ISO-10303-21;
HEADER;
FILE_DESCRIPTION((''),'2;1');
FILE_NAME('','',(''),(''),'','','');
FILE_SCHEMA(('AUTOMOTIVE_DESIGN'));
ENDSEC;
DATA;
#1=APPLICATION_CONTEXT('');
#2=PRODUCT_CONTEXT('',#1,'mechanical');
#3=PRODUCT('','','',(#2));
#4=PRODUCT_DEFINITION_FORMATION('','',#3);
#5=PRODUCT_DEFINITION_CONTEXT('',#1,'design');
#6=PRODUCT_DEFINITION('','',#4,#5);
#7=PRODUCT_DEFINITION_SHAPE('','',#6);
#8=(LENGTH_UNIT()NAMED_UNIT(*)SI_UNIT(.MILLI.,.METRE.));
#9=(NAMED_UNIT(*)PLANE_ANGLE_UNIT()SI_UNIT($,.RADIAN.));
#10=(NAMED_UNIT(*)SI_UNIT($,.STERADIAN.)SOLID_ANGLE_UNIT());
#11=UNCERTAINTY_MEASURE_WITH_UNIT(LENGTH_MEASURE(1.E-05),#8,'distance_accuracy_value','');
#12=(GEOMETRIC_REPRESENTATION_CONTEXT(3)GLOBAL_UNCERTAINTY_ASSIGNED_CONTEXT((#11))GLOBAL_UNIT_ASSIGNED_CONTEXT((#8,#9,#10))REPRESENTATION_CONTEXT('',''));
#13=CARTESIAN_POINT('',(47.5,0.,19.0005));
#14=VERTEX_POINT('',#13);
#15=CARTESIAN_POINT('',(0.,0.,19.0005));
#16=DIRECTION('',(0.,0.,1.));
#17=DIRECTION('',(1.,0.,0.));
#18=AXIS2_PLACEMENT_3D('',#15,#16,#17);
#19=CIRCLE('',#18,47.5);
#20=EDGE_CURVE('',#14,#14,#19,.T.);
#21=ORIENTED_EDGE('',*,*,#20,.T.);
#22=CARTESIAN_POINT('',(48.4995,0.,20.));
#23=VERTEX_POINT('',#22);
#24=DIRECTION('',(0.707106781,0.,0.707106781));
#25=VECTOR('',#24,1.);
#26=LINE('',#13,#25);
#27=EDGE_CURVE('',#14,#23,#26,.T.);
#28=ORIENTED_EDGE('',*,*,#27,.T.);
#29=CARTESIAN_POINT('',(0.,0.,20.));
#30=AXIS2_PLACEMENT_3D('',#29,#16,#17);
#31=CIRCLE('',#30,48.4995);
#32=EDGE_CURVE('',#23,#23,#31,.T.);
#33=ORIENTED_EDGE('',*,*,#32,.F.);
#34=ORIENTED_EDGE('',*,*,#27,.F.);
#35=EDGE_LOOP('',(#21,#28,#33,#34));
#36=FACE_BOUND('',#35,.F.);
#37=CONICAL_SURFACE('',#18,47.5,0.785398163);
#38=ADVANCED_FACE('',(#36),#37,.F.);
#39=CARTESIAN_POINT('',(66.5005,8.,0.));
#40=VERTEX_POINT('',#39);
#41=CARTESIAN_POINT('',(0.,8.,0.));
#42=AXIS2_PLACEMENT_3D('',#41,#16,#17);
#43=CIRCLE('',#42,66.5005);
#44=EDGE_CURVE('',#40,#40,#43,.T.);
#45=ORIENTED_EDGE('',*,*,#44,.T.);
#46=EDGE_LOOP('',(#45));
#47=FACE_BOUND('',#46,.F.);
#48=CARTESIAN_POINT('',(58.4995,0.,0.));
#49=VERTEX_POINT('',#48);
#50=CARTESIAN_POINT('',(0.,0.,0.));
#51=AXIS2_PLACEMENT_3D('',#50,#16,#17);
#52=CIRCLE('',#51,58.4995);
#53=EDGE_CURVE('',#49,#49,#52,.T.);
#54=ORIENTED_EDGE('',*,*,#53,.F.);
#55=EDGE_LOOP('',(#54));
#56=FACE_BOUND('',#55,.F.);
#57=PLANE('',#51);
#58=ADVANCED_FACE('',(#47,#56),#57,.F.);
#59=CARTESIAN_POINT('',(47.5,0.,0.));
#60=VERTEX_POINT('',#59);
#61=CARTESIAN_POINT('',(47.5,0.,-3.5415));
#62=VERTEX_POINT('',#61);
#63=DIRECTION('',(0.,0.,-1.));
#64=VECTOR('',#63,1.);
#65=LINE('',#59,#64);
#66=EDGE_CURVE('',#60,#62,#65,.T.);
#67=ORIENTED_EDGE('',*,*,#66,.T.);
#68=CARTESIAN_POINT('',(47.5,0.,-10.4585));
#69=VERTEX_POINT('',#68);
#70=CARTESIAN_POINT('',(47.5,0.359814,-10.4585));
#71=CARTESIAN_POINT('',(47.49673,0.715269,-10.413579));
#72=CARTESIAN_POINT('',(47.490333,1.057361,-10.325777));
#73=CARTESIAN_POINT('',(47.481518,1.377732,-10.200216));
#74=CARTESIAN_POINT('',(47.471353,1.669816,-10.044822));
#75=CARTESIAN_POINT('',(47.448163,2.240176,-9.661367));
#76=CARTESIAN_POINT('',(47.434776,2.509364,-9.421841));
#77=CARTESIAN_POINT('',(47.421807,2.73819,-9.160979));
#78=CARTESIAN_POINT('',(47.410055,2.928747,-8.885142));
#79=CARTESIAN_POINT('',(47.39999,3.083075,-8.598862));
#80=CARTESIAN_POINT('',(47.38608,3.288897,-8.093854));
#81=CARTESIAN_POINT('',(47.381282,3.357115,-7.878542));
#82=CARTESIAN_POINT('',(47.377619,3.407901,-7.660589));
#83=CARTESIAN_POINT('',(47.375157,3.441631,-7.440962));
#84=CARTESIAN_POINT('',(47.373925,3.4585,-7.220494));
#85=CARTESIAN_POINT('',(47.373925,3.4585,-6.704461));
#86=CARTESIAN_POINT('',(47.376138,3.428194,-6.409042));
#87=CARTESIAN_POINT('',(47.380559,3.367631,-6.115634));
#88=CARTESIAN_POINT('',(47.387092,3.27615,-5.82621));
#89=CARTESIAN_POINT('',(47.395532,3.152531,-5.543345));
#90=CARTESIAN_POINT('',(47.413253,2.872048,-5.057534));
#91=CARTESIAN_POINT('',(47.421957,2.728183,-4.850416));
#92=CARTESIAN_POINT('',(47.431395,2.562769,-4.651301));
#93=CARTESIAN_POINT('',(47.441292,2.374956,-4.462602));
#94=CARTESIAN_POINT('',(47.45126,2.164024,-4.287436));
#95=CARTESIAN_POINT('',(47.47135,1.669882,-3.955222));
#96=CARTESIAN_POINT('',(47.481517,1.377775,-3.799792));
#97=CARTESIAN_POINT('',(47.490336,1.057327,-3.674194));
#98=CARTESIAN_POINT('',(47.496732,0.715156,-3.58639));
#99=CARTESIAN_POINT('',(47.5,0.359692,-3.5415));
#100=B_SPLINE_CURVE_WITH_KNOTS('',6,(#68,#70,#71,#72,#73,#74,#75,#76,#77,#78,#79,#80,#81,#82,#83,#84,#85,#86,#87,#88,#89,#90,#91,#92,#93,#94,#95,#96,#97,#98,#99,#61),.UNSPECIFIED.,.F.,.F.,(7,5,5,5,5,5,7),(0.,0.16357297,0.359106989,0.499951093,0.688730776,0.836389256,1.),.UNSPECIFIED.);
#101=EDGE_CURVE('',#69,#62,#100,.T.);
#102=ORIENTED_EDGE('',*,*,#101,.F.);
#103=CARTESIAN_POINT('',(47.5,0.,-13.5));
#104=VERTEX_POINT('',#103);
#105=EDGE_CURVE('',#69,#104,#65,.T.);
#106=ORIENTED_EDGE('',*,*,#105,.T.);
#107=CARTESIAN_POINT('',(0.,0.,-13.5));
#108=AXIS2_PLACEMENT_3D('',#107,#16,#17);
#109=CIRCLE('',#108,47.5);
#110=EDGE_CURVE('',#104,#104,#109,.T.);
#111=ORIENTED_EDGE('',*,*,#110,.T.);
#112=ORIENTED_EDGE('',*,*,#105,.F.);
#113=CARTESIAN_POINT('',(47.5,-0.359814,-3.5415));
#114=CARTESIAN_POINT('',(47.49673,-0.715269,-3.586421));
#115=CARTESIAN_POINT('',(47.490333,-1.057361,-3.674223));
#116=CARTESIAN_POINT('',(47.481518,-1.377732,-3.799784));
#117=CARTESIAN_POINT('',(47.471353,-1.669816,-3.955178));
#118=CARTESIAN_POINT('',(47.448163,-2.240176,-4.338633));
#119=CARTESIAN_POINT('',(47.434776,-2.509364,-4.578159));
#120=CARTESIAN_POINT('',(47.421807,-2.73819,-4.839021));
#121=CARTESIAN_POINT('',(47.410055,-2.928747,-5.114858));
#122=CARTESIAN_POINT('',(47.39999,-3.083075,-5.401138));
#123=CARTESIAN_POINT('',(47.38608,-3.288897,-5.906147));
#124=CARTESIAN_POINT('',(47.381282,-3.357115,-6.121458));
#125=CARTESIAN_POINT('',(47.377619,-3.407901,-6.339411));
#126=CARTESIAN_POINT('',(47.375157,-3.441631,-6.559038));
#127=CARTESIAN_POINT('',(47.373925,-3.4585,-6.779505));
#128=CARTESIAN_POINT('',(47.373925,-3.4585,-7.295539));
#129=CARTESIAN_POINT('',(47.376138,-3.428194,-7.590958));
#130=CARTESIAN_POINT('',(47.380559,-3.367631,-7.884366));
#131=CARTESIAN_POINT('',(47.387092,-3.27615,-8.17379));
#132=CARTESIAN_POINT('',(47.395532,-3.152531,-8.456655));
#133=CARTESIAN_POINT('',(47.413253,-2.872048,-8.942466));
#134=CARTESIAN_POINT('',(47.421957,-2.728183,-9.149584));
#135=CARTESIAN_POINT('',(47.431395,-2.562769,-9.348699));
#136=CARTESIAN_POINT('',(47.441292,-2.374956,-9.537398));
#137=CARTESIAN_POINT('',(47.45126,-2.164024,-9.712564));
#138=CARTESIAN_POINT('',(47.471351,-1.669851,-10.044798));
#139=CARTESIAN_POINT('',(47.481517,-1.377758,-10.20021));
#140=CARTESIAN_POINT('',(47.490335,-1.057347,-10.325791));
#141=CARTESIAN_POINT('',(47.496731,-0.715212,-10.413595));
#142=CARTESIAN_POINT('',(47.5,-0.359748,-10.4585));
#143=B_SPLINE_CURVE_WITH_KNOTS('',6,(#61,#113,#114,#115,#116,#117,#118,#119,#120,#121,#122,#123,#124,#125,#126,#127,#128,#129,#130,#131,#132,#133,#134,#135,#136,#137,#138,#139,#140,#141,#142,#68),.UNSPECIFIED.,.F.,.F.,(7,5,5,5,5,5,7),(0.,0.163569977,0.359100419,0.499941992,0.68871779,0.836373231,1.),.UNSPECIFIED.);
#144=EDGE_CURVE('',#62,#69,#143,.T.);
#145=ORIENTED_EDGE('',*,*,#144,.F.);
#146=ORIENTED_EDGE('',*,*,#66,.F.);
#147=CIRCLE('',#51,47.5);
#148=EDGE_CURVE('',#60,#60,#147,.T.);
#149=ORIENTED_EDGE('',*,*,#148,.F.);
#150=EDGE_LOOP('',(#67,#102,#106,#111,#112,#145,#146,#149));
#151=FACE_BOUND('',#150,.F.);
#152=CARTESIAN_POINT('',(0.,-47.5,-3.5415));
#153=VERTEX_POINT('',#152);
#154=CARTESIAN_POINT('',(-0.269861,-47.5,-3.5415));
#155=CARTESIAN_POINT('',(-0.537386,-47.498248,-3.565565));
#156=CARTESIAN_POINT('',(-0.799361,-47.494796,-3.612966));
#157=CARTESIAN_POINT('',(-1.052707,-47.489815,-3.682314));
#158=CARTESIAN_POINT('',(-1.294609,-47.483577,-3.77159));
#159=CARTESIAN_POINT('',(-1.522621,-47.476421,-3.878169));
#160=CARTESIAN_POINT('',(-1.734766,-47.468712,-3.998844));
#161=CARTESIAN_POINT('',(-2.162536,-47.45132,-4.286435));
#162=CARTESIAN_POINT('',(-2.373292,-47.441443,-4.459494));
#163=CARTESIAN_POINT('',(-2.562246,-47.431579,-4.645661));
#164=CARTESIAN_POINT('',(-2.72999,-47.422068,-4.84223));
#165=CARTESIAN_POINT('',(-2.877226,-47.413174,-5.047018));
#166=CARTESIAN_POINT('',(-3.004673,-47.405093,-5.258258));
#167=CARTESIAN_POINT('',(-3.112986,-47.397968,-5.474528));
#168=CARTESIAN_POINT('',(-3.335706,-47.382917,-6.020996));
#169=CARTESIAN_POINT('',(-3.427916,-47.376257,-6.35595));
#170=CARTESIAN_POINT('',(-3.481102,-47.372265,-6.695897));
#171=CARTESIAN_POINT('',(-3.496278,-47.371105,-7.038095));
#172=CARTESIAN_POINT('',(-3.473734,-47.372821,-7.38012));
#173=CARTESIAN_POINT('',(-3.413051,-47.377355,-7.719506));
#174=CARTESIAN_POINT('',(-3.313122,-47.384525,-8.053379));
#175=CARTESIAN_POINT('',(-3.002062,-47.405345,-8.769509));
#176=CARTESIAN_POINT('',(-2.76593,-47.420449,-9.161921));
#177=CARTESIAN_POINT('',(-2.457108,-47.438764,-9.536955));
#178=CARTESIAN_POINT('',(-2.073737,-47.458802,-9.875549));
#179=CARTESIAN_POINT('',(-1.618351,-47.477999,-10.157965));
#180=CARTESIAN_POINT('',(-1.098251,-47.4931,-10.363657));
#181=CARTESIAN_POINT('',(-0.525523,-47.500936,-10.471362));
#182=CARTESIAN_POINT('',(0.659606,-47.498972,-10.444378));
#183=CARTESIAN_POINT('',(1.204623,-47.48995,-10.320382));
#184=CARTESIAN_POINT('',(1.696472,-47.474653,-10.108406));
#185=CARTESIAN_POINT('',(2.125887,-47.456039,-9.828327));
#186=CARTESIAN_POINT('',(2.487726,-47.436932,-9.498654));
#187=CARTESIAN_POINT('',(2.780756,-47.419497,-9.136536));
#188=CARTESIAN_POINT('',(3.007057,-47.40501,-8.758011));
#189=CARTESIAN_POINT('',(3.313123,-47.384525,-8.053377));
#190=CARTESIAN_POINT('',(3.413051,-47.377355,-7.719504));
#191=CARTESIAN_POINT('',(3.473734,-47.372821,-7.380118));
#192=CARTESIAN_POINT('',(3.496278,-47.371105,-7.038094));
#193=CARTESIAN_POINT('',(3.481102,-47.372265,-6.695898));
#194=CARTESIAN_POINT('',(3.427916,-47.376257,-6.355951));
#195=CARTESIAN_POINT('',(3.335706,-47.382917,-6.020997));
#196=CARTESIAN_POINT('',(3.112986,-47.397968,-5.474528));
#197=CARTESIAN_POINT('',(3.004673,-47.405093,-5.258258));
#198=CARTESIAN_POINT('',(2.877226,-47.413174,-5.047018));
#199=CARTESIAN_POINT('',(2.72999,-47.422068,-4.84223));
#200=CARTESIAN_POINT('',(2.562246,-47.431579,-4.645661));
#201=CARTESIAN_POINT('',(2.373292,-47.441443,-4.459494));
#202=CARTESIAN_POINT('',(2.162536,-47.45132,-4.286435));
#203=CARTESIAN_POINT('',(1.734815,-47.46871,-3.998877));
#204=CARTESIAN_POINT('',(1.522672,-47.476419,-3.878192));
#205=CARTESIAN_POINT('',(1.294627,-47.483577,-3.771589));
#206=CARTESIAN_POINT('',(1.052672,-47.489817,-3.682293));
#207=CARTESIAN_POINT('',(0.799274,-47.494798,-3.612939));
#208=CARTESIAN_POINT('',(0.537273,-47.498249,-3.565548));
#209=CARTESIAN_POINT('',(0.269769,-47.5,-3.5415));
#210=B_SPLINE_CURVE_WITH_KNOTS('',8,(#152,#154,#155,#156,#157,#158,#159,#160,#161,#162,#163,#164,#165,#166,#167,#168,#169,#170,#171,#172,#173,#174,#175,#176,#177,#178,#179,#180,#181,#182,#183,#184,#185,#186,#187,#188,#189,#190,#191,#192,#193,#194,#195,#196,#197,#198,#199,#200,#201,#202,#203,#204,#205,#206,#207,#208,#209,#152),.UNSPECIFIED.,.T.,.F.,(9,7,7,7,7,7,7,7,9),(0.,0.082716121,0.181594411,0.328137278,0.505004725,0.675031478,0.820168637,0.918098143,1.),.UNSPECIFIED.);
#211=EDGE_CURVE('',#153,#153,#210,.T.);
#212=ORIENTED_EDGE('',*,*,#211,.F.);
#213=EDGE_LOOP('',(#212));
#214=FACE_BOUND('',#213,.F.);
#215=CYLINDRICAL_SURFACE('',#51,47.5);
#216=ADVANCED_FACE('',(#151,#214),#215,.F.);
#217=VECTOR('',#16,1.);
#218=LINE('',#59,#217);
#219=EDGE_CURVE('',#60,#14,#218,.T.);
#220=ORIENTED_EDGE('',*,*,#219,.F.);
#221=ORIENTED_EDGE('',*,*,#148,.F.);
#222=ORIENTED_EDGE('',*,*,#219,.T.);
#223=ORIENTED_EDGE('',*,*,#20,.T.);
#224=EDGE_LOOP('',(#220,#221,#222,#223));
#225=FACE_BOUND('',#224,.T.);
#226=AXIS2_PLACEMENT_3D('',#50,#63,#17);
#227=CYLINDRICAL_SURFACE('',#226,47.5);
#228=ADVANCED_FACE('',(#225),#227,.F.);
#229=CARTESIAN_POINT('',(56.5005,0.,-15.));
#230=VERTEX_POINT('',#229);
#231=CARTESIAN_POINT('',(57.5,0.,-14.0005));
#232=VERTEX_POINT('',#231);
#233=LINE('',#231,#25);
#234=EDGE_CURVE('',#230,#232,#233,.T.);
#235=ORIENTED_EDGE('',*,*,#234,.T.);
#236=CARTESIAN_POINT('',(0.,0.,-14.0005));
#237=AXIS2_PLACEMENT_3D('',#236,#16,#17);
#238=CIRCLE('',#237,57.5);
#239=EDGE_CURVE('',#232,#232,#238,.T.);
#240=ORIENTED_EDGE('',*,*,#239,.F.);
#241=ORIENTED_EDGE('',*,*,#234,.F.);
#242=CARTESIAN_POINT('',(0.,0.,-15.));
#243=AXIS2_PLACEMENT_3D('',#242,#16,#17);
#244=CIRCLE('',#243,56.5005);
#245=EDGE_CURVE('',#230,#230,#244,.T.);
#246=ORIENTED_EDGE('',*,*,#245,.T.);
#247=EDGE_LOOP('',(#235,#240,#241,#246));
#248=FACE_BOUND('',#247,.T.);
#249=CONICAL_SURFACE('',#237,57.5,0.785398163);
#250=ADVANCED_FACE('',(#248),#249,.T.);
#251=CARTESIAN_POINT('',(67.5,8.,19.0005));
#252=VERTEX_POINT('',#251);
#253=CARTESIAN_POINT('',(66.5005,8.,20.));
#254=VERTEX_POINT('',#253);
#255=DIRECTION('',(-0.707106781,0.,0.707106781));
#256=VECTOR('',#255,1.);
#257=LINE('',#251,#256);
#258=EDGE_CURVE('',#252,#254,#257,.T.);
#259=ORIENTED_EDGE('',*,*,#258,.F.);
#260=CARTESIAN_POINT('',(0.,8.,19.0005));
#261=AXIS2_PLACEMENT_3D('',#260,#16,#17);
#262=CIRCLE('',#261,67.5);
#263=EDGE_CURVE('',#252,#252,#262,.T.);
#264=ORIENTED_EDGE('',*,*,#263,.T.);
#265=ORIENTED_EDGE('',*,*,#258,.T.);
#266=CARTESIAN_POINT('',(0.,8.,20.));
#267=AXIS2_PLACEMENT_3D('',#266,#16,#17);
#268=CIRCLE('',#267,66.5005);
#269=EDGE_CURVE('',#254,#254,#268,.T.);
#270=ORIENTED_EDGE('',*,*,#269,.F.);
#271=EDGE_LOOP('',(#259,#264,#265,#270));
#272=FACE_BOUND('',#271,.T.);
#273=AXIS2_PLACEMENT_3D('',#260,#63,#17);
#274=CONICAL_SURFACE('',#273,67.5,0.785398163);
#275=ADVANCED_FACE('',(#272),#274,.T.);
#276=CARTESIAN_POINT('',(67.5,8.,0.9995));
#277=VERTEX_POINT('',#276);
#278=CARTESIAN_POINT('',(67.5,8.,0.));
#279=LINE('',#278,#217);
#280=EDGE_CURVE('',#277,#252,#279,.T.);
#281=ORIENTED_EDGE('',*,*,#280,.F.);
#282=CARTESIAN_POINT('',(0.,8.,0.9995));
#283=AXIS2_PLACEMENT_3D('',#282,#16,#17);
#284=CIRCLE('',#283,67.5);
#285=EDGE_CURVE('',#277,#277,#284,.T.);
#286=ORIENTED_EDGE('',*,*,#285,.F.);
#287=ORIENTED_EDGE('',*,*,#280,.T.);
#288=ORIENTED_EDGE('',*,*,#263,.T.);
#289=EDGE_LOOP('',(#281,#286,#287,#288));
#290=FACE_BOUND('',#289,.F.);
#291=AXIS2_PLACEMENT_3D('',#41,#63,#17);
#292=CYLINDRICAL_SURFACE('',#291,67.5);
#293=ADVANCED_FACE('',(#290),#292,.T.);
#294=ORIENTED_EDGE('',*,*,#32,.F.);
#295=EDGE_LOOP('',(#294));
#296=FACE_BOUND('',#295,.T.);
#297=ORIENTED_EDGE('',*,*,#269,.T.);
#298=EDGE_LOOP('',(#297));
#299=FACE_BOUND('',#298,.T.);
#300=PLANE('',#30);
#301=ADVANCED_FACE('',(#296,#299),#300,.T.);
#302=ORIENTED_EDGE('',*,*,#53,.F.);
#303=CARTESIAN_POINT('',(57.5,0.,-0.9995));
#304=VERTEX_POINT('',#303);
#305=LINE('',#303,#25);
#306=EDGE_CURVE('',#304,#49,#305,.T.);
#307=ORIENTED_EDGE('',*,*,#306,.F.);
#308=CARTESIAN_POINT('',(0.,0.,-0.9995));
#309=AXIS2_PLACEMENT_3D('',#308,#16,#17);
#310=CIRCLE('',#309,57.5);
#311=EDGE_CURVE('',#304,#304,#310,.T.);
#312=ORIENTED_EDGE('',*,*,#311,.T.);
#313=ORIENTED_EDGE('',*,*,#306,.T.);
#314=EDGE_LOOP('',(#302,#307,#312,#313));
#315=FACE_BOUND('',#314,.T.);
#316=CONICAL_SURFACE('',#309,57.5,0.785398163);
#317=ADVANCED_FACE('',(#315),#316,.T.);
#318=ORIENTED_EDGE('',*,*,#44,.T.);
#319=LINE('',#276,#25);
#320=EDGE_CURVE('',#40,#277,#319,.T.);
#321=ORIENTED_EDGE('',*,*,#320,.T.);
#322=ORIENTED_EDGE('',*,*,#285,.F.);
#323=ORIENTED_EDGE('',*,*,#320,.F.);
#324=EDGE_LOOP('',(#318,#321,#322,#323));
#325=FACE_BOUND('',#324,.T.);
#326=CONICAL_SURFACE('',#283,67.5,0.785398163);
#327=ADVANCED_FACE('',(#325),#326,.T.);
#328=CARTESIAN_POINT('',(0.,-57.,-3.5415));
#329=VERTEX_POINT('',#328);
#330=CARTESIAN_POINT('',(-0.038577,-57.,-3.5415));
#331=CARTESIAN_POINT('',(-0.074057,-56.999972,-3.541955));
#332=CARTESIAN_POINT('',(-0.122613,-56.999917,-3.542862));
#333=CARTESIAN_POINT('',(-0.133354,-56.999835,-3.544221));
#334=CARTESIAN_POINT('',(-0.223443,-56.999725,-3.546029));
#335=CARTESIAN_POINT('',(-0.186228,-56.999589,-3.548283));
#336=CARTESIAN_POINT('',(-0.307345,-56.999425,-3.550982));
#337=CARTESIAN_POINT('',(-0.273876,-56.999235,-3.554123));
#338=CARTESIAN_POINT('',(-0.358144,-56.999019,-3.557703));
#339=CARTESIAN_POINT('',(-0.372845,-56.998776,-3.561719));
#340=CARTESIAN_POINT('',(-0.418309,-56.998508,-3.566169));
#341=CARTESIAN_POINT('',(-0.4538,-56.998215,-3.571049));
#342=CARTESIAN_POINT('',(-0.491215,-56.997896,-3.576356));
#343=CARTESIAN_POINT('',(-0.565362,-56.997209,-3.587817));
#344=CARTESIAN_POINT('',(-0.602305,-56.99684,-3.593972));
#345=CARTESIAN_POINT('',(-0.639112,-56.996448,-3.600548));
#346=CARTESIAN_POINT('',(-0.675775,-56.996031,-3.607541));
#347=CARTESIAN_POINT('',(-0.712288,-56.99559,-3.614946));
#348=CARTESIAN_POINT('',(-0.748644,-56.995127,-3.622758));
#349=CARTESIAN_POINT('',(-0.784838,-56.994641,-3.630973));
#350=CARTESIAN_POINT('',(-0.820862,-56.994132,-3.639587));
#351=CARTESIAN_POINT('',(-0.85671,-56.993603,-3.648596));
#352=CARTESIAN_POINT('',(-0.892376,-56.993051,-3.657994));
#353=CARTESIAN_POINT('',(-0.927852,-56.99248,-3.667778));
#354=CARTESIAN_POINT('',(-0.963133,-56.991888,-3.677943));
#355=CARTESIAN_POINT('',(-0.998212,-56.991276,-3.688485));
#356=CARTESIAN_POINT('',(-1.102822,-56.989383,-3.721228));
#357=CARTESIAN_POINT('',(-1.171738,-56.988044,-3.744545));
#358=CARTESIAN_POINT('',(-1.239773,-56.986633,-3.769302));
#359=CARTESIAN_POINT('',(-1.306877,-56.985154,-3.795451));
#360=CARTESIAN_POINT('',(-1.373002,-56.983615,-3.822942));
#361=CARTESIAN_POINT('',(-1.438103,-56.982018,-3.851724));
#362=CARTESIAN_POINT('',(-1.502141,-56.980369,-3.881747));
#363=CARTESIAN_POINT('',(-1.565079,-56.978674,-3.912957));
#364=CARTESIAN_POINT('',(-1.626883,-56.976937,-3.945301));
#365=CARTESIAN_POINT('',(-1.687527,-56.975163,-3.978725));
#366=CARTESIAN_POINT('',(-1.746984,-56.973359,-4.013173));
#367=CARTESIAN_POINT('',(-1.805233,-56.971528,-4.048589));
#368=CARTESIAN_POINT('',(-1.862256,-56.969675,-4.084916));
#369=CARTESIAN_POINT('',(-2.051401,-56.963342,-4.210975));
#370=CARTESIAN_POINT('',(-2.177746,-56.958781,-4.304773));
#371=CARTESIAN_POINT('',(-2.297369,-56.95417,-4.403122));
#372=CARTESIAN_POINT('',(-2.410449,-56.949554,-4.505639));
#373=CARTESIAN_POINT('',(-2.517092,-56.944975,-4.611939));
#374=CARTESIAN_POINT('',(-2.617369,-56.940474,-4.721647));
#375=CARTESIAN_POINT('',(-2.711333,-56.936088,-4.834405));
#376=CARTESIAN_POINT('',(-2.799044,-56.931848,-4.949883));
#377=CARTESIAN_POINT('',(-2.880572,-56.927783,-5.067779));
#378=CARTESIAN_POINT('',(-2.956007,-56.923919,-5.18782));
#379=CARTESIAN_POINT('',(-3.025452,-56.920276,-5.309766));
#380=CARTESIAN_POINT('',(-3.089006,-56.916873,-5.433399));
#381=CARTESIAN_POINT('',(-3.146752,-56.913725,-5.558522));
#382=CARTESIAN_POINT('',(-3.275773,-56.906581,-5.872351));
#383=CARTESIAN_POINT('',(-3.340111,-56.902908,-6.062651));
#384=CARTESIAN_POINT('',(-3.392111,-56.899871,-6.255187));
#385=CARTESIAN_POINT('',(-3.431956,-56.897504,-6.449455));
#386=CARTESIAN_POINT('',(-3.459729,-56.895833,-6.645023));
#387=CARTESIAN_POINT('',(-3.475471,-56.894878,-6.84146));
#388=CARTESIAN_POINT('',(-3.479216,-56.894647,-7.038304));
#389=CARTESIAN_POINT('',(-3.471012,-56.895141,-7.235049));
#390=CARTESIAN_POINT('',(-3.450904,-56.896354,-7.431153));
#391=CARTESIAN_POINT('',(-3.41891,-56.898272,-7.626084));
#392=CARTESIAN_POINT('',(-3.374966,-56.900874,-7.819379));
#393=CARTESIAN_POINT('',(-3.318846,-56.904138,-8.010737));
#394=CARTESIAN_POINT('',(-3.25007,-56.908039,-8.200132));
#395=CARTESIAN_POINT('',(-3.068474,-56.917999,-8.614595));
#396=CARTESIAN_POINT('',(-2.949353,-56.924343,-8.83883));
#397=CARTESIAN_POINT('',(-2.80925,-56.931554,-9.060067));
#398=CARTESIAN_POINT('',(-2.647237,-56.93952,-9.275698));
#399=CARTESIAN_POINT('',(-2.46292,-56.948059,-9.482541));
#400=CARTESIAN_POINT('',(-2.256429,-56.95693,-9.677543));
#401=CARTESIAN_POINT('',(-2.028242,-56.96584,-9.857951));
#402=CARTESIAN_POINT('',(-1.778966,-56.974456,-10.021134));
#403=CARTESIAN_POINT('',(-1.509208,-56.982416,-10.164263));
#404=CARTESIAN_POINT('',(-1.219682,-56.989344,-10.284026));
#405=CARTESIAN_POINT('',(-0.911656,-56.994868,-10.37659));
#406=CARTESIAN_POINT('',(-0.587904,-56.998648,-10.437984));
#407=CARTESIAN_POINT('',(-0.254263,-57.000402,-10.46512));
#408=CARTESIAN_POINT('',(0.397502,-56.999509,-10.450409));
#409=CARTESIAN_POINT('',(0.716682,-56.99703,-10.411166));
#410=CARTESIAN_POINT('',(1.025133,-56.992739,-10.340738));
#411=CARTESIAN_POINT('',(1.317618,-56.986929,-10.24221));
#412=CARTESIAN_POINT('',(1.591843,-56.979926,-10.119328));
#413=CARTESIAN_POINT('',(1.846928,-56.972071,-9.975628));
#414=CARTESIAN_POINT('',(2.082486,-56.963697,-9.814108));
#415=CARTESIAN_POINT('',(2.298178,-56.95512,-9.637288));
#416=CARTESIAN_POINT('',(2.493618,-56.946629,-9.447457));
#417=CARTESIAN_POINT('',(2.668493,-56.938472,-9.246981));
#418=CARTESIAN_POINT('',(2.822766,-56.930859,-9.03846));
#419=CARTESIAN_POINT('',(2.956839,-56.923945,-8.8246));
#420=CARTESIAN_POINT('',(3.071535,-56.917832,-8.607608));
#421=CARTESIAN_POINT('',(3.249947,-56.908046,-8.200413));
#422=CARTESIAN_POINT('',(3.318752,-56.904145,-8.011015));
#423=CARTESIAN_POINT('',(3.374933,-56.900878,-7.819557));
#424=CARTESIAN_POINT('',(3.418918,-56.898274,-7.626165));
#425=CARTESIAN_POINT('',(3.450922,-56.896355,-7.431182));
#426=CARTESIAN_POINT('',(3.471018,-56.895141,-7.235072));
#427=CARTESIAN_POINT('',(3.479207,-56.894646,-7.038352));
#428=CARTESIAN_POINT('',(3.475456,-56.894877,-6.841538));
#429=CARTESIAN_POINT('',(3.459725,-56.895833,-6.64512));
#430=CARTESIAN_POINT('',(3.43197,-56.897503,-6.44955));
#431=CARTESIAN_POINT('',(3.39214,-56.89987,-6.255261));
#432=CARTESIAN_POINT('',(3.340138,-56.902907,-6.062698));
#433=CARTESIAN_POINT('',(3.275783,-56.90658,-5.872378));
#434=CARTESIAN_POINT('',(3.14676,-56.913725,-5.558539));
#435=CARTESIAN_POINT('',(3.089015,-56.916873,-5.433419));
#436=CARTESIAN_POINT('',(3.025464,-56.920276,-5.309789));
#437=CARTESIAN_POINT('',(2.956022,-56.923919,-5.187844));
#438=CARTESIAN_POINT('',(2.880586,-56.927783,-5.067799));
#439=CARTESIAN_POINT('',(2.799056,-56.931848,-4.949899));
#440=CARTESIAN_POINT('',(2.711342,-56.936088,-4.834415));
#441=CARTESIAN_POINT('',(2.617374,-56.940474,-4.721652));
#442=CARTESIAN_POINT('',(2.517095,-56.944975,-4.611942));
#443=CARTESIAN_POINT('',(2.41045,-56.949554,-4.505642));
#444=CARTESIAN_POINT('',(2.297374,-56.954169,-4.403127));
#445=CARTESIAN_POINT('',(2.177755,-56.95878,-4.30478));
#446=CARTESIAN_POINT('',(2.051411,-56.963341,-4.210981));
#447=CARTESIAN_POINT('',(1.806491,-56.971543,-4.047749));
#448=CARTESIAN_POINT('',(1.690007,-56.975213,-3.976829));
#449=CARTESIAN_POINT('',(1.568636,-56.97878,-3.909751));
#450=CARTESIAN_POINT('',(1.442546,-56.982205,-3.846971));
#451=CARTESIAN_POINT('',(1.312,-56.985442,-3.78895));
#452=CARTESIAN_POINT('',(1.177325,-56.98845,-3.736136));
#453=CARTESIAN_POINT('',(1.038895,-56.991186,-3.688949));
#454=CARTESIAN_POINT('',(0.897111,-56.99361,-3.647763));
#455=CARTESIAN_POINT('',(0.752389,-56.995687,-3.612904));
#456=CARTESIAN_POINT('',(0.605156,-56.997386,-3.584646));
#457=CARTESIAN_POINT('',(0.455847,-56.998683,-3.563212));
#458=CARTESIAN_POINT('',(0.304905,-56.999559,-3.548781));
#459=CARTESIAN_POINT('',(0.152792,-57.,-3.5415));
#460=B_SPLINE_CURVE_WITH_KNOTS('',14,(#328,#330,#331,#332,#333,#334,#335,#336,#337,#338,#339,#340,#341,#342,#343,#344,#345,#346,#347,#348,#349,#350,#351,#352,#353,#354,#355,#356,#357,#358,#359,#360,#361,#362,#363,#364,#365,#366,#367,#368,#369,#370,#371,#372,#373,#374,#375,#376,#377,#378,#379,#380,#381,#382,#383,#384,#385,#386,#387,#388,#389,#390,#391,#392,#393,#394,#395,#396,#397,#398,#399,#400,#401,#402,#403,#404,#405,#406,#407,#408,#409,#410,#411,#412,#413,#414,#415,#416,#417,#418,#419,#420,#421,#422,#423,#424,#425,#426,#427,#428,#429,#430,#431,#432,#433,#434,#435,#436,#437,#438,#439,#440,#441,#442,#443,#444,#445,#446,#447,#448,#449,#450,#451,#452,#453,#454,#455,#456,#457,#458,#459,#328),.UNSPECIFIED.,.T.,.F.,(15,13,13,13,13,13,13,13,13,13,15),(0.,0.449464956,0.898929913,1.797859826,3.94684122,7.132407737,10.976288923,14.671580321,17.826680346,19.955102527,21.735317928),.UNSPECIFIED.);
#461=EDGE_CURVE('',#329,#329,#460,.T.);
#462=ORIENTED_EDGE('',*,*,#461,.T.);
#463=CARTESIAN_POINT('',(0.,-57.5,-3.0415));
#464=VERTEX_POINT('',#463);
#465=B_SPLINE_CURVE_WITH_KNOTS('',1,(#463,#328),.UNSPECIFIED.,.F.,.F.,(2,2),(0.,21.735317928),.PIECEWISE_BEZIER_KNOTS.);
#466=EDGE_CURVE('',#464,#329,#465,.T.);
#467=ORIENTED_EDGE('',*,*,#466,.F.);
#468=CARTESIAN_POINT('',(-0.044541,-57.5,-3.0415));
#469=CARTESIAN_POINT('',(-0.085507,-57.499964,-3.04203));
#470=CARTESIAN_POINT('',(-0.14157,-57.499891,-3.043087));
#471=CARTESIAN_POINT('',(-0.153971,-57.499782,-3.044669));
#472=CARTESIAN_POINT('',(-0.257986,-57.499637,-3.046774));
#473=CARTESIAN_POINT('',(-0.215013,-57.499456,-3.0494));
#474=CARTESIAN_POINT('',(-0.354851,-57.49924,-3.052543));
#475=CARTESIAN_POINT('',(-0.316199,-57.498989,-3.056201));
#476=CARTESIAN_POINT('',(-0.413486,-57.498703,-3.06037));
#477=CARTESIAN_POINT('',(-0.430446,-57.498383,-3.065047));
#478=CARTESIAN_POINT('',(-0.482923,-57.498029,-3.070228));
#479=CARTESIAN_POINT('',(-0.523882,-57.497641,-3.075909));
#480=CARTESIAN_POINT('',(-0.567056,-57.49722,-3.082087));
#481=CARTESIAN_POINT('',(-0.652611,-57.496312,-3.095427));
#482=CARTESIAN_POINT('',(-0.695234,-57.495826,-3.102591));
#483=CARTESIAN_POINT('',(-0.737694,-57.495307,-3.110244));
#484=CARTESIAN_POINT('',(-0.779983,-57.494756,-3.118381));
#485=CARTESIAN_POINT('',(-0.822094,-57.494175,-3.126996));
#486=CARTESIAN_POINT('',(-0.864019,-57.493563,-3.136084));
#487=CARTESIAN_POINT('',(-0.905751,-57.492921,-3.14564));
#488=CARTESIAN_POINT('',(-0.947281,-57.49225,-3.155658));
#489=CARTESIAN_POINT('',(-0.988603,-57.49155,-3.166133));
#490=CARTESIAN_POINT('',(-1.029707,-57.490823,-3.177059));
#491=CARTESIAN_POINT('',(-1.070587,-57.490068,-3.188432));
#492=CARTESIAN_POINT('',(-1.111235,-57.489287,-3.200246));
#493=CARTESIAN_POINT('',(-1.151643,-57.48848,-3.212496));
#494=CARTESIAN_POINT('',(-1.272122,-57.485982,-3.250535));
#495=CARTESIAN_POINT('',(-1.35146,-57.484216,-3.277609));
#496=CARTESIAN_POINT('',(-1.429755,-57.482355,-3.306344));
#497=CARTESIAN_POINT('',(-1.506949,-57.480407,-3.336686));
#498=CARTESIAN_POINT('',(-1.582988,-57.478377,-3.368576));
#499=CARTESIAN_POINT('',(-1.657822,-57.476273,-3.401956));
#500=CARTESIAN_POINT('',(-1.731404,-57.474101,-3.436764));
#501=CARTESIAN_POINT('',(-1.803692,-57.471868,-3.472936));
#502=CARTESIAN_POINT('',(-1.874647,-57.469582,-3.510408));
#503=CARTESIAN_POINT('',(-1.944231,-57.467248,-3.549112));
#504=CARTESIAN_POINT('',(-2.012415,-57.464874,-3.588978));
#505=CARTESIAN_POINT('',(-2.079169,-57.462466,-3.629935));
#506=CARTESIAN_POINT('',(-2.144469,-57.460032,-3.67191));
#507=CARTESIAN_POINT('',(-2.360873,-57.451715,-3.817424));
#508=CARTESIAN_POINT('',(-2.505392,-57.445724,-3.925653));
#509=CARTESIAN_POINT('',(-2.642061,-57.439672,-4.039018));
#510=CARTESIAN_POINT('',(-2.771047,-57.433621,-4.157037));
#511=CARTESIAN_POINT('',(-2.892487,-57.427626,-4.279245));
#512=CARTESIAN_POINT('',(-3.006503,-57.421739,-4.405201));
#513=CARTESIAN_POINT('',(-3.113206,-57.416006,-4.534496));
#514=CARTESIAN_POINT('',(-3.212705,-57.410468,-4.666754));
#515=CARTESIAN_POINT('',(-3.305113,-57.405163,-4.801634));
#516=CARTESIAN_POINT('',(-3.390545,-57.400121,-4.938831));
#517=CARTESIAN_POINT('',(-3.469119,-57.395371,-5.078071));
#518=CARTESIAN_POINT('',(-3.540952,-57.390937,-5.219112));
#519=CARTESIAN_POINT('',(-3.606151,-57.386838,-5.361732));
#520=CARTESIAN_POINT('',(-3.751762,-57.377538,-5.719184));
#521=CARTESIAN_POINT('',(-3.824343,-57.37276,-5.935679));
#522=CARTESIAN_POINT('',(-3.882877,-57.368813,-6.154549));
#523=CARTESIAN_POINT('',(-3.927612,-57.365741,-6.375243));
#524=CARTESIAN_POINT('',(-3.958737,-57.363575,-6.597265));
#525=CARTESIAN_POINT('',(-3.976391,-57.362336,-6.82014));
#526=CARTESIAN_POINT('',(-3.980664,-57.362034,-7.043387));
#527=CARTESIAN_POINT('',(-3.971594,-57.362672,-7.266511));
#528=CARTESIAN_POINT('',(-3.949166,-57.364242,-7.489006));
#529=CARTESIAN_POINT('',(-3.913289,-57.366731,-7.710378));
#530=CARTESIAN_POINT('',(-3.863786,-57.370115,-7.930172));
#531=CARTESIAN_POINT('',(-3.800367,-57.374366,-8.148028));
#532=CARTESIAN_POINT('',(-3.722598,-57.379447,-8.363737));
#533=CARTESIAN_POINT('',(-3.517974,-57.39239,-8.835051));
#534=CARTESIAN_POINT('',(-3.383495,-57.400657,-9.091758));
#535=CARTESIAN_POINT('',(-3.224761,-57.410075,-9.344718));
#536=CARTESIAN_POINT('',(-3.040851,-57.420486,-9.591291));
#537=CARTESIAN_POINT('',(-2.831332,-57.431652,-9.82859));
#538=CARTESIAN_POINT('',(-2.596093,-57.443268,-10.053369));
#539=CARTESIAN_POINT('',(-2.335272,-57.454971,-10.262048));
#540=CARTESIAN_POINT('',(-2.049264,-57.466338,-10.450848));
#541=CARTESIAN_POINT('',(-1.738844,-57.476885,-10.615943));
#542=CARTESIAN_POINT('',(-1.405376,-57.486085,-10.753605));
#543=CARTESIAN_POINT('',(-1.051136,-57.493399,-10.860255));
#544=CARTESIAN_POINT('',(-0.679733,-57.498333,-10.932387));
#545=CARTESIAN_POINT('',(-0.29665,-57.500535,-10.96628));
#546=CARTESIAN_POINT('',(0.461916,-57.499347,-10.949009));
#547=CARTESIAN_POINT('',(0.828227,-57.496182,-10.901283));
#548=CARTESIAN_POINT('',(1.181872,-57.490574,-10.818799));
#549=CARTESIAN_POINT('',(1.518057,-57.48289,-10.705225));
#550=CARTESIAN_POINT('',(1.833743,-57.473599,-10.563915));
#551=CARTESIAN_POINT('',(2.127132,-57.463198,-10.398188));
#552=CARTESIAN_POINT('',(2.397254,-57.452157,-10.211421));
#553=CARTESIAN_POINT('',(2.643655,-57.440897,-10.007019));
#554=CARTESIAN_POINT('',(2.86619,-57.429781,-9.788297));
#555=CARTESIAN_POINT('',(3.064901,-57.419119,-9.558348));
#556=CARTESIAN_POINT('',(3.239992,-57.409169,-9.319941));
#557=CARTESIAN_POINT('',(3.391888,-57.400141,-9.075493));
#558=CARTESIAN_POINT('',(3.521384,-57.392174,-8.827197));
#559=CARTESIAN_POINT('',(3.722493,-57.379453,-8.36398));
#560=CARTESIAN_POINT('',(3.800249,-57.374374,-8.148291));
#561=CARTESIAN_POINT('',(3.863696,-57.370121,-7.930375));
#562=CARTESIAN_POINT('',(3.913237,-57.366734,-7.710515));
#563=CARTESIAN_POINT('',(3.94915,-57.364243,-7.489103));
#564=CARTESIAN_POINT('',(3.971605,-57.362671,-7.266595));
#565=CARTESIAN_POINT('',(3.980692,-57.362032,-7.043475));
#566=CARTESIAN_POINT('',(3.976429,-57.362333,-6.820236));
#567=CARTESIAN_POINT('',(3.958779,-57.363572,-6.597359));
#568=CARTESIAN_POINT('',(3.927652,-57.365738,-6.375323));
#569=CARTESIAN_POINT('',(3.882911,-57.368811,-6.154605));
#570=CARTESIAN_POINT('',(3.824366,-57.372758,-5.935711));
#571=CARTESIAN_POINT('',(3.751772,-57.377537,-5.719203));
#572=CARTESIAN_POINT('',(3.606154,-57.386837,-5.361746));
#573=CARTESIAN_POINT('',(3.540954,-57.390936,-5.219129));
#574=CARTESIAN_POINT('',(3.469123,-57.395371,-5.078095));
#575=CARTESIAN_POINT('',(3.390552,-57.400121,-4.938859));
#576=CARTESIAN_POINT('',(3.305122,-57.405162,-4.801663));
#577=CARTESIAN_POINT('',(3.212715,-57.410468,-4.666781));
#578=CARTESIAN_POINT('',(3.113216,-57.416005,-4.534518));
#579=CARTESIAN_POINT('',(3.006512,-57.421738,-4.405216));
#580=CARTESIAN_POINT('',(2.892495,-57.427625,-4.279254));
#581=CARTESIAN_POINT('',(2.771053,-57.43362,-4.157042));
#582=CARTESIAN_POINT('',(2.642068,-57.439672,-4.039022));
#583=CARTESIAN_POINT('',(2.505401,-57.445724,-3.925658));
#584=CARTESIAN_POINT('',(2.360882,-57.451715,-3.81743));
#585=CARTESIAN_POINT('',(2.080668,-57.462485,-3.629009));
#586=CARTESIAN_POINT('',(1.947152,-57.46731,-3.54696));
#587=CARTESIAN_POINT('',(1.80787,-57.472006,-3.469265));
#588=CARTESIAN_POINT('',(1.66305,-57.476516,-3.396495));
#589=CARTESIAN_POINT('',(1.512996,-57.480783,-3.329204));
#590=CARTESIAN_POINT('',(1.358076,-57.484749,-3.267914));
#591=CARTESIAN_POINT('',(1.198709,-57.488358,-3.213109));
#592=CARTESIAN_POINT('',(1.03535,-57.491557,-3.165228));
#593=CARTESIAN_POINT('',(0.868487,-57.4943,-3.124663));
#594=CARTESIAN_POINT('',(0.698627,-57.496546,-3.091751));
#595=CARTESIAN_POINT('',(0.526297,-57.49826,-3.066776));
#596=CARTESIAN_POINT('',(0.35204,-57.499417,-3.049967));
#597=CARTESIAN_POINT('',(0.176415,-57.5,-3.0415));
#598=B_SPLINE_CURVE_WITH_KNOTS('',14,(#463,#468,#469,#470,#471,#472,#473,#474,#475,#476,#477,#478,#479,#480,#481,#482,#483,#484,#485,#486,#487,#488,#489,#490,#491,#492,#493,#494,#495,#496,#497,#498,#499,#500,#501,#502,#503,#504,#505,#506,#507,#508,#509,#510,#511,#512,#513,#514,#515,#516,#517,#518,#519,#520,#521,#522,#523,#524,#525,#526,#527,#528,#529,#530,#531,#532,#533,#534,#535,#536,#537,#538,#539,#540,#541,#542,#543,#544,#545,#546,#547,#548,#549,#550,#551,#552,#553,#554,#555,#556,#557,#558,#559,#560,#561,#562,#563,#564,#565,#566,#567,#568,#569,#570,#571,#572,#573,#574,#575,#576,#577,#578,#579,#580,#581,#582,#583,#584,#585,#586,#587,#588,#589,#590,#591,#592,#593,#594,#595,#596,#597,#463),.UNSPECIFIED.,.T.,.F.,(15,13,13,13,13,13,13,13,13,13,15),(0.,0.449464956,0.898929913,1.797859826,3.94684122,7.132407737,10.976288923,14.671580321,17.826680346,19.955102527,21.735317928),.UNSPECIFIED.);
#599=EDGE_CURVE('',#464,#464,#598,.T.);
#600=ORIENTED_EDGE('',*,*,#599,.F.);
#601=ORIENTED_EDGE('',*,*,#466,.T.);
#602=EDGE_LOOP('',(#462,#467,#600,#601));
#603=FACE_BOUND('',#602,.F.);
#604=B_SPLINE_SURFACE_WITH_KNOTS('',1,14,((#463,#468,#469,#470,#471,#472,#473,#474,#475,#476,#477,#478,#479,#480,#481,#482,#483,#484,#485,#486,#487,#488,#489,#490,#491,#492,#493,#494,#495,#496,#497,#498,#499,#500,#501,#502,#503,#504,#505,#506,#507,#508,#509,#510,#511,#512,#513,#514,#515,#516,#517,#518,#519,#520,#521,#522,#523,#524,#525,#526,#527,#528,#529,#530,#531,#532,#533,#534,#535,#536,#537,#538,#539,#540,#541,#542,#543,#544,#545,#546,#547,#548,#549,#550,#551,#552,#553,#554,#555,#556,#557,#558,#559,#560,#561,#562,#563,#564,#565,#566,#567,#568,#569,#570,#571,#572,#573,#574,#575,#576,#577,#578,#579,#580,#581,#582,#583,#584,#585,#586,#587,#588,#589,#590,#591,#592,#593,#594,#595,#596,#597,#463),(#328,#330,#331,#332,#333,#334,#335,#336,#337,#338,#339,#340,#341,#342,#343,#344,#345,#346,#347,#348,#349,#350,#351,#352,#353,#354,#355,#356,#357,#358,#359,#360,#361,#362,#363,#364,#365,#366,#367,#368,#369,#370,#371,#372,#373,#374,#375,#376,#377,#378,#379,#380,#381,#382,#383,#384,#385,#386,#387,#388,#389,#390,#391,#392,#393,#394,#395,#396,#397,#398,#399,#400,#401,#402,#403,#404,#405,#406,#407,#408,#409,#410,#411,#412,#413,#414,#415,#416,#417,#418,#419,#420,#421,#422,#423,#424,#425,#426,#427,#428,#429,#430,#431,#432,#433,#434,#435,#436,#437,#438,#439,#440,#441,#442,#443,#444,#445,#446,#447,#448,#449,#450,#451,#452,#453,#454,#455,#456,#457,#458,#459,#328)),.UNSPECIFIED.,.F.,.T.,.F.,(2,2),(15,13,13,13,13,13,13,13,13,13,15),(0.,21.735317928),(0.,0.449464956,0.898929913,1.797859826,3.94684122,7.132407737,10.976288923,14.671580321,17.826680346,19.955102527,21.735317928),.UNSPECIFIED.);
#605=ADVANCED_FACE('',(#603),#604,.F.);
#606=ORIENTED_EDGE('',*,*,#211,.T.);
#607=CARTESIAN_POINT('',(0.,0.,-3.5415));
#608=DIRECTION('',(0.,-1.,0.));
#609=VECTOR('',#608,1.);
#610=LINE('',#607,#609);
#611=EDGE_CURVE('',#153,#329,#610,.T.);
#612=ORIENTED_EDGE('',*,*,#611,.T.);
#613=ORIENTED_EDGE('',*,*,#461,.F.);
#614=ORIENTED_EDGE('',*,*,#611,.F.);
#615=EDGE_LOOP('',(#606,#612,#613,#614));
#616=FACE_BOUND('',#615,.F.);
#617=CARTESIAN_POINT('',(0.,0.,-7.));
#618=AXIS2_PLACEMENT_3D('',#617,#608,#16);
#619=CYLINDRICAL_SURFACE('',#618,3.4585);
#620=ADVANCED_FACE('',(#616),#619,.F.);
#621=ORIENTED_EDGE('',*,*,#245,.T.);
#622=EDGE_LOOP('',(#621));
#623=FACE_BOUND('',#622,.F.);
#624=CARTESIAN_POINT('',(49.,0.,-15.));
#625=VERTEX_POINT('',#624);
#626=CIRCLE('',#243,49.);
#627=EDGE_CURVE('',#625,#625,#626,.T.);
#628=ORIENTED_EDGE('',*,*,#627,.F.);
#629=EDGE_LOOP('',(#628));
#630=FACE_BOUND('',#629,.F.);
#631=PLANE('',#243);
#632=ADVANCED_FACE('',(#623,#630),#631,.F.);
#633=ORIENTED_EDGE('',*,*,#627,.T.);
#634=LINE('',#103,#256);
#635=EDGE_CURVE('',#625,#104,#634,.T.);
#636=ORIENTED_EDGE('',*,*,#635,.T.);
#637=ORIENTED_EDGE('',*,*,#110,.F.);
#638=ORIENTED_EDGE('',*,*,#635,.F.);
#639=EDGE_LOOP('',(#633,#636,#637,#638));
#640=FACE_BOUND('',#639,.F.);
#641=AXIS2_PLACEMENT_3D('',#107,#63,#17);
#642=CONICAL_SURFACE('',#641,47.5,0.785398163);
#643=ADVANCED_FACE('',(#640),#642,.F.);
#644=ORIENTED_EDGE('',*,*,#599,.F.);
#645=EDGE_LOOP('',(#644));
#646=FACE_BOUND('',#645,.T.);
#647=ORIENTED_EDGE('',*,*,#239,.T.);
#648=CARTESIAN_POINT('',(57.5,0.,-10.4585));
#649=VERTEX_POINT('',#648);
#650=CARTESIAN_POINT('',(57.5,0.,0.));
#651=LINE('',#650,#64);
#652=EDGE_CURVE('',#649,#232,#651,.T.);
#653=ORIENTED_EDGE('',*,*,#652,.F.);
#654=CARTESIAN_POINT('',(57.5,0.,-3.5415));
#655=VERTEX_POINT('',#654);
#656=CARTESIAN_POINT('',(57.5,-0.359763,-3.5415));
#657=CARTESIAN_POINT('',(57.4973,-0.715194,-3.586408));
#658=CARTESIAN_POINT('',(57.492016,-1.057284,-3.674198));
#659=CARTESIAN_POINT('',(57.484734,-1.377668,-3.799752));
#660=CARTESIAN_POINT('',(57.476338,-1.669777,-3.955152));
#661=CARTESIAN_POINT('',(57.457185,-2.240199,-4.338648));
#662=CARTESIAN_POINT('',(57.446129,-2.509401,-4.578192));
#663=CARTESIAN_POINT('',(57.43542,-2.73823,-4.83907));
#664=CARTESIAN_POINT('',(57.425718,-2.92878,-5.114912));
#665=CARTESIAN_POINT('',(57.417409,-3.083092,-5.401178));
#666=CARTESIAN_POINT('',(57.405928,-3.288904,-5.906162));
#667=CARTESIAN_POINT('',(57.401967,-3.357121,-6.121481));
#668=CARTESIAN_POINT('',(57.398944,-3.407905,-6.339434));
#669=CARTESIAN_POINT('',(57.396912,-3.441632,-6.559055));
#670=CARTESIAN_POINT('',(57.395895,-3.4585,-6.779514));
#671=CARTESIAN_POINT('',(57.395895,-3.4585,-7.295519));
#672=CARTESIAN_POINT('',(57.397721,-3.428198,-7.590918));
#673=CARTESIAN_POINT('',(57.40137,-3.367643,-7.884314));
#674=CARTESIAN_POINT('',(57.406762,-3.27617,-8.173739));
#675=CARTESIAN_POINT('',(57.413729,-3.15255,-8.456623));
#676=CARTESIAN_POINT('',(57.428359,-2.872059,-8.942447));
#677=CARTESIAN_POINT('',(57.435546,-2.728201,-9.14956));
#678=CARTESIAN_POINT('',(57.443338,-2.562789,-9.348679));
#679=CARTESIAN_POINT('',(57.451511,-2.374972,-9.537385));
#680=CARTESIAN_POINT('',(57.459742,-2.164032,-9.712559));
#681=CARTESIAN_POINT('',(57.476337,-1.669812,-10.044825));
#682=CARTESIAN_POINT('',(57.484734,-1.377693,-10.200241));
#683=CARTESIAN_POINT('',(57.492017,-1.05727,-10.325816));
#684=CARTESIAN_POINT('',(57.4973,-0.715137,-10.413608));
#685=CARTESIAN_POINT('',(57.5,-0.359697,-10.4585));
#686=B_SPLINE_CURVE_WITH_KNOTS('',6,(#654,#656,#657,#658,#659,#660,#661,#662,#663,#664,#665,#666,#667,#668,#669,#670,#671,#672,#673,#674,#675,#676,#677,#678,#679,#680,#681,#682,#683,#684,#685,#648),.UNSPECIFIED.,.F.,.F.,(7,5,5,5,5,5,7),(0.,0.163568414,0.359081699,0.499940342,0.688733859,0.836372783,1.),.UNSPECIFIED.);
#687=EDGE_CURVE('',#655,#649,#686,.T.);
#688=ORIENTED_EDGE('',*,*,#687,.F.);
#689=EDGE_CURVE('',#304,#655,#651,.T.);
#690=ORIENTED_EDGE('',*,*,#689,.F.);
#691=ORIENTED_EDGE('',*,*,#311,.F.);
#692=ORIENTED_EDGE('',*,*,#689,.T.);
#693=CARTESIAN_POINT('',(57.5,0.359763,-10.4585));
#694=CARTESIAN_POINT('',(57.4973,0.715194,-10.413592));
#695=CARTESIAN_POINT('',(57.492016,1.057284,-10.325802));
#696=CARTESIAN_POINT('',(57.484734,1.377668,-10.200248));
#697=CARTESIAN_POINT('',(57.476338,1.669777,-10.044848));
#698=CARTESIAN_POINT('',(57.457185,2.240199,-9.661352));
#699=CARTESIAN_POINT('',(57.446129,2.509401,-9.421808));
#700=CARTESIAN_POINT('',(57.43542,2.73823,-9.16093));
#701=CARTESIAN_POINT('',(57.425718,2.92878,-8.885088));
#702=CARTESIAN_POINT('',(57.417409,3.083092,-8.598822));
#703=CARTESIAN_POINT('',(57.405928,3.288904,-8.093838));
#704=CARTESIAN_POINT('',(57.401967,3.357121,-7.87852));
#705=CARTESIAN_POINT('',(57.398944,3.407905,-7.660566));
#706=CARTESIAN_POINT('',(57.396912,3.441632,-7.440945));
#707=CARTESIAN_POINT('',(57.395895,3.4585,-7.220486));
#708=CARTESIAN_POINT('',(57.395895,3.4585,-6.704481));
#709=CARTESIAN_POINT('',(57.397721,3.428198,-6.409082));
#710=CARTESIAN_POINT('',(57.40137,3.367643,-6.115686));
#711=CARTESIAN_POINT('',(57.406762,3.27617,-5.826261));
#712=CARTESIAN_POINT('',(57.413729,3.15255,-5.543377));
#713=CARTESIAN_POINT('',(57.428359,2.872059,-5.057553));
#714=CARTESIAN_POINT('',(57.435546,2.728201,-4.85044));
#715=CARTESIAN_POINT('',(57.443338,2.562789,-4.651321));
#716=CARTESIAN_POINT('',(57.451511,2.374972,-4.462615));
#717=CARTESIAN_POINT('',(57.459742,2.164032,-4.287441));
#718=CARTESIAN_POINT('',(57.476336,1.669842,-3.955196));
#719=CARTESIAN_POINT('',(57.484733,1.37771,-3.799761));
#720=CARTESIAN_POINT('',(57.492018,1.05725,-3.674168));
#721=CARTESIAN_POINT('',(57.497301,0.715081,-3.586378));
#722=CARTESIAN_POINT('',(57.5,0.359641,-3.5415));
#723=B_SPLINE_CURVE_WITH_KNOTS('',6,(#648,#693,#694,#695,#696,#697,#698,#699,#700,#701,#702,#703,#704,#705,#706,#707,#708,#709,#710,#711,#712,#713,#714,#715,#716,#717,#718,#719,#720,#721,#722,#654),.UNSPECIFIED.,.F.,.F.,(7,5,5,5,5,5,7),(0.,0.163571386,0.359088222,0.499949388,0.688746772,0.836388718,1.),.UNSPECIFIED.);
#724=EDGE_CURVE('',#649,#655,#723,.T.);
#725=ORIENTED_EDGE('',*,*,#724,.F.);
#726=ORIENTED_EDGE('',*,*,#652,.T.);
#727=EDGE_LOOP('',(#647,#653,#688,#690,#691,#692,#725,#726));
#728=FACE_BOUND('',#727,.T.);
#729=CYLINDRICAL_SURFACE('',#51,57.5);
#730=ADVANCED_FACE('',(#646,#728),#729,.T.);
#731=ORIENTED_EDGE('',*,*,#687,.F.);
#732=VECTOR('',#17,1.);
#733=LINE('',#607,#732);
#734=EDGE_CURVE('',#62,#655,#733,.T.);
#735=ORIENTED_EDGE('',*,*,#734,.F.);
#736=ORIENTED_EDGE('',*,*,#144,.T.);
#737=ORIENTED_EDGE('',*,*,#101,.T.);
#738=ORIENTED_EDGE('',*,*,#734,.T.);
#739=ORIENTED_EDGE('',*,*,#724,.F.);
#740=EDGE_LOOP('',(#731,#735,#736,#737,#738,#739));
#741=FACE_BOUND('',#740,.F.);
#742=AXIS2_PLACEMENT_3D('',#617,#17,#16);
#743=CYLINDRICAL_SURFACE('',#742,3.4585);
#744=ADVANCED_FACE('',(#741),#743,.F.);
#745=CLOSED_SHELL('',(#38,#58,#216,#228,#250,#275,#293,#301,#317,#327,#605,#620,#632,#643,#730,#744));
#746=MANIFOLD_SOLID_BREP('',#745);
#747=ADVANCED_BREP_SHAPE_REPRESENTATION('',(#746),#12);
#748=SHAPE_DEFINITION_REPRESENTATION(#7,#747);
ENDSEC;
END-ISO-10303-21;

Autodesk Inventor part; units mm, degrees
ref_plane "YZ Plane" through (0, 0, 0) normal (1, 0, 0) x (0, 1, 0)
ref_plane "XZ Plane" through (0, 0, 0) normal (0, 1, 0) x (-1, 0, 0)
ref_plane "XY Plane" through (0, 0, 0) normal (0, 0, 1) x (1, 0, 0)
sketch "Esboço1" plane through (0, 0, 0) normal (0, 0, 1) x (1, 0, 0)
  circle A0 centre (0, 0) radius 47.5
  circle A1 centre (0, 0) radius 57.5
  dimension "d0" = 95
  dimension "d1" = 115
extrude "Extrusão1" add sketch "Esboço1" against normal blind 15
sketch "Esboço2" plane through (0, 0, 0) normal (0, 0, 1) x (1, 0, 0)
  circle A0 centre (0, 8) radius 67.5
  circle A1 centre (0, 0) radius 47.5 projected
  dimension "d4" = 135
  dimension "d5" = 8
extrude "Extrusão2" add sketch "Esboço2" along normal blind 20
sketch "Esboço3" plane through (0, 0, 0) normal (0, 1, 0) x (-1, 0, 0)
  line L0 (47.5, -15) -> (-47.5, -15) projected
  point P0 (0, 0)
  point P1 (0, -7)
  point P2 (0, -15)
  dimension "d8" = 8
hole "Furo1" at (0, 0, -7) direction (0, -1, 0) diameter 6.917 end through all thread size "M8x1" class "6H" standard "ANSI Metric M Profile"
chamfer "Chanfro1" distance 0.5 angle 45 1 edges at (-0.0571, -57.5, -10.458)
pattern_circular "Padrão circular1" count 2 over 90 about axis through (0, 0, -10) along (0, 0, 1) of "Furo1"
chamfer "Chanfro2" distance 1.5 angle 45 1 edges at (-47.5, 0, -15)
chamfer "Chanfro3" distance 1 angle 45 5 edges at (-57.5, 0, -15) (-57.5, 0, 0) (-67.5, 8, 0) (-67.5, 8, 20) (-47.5, 0, 20)
